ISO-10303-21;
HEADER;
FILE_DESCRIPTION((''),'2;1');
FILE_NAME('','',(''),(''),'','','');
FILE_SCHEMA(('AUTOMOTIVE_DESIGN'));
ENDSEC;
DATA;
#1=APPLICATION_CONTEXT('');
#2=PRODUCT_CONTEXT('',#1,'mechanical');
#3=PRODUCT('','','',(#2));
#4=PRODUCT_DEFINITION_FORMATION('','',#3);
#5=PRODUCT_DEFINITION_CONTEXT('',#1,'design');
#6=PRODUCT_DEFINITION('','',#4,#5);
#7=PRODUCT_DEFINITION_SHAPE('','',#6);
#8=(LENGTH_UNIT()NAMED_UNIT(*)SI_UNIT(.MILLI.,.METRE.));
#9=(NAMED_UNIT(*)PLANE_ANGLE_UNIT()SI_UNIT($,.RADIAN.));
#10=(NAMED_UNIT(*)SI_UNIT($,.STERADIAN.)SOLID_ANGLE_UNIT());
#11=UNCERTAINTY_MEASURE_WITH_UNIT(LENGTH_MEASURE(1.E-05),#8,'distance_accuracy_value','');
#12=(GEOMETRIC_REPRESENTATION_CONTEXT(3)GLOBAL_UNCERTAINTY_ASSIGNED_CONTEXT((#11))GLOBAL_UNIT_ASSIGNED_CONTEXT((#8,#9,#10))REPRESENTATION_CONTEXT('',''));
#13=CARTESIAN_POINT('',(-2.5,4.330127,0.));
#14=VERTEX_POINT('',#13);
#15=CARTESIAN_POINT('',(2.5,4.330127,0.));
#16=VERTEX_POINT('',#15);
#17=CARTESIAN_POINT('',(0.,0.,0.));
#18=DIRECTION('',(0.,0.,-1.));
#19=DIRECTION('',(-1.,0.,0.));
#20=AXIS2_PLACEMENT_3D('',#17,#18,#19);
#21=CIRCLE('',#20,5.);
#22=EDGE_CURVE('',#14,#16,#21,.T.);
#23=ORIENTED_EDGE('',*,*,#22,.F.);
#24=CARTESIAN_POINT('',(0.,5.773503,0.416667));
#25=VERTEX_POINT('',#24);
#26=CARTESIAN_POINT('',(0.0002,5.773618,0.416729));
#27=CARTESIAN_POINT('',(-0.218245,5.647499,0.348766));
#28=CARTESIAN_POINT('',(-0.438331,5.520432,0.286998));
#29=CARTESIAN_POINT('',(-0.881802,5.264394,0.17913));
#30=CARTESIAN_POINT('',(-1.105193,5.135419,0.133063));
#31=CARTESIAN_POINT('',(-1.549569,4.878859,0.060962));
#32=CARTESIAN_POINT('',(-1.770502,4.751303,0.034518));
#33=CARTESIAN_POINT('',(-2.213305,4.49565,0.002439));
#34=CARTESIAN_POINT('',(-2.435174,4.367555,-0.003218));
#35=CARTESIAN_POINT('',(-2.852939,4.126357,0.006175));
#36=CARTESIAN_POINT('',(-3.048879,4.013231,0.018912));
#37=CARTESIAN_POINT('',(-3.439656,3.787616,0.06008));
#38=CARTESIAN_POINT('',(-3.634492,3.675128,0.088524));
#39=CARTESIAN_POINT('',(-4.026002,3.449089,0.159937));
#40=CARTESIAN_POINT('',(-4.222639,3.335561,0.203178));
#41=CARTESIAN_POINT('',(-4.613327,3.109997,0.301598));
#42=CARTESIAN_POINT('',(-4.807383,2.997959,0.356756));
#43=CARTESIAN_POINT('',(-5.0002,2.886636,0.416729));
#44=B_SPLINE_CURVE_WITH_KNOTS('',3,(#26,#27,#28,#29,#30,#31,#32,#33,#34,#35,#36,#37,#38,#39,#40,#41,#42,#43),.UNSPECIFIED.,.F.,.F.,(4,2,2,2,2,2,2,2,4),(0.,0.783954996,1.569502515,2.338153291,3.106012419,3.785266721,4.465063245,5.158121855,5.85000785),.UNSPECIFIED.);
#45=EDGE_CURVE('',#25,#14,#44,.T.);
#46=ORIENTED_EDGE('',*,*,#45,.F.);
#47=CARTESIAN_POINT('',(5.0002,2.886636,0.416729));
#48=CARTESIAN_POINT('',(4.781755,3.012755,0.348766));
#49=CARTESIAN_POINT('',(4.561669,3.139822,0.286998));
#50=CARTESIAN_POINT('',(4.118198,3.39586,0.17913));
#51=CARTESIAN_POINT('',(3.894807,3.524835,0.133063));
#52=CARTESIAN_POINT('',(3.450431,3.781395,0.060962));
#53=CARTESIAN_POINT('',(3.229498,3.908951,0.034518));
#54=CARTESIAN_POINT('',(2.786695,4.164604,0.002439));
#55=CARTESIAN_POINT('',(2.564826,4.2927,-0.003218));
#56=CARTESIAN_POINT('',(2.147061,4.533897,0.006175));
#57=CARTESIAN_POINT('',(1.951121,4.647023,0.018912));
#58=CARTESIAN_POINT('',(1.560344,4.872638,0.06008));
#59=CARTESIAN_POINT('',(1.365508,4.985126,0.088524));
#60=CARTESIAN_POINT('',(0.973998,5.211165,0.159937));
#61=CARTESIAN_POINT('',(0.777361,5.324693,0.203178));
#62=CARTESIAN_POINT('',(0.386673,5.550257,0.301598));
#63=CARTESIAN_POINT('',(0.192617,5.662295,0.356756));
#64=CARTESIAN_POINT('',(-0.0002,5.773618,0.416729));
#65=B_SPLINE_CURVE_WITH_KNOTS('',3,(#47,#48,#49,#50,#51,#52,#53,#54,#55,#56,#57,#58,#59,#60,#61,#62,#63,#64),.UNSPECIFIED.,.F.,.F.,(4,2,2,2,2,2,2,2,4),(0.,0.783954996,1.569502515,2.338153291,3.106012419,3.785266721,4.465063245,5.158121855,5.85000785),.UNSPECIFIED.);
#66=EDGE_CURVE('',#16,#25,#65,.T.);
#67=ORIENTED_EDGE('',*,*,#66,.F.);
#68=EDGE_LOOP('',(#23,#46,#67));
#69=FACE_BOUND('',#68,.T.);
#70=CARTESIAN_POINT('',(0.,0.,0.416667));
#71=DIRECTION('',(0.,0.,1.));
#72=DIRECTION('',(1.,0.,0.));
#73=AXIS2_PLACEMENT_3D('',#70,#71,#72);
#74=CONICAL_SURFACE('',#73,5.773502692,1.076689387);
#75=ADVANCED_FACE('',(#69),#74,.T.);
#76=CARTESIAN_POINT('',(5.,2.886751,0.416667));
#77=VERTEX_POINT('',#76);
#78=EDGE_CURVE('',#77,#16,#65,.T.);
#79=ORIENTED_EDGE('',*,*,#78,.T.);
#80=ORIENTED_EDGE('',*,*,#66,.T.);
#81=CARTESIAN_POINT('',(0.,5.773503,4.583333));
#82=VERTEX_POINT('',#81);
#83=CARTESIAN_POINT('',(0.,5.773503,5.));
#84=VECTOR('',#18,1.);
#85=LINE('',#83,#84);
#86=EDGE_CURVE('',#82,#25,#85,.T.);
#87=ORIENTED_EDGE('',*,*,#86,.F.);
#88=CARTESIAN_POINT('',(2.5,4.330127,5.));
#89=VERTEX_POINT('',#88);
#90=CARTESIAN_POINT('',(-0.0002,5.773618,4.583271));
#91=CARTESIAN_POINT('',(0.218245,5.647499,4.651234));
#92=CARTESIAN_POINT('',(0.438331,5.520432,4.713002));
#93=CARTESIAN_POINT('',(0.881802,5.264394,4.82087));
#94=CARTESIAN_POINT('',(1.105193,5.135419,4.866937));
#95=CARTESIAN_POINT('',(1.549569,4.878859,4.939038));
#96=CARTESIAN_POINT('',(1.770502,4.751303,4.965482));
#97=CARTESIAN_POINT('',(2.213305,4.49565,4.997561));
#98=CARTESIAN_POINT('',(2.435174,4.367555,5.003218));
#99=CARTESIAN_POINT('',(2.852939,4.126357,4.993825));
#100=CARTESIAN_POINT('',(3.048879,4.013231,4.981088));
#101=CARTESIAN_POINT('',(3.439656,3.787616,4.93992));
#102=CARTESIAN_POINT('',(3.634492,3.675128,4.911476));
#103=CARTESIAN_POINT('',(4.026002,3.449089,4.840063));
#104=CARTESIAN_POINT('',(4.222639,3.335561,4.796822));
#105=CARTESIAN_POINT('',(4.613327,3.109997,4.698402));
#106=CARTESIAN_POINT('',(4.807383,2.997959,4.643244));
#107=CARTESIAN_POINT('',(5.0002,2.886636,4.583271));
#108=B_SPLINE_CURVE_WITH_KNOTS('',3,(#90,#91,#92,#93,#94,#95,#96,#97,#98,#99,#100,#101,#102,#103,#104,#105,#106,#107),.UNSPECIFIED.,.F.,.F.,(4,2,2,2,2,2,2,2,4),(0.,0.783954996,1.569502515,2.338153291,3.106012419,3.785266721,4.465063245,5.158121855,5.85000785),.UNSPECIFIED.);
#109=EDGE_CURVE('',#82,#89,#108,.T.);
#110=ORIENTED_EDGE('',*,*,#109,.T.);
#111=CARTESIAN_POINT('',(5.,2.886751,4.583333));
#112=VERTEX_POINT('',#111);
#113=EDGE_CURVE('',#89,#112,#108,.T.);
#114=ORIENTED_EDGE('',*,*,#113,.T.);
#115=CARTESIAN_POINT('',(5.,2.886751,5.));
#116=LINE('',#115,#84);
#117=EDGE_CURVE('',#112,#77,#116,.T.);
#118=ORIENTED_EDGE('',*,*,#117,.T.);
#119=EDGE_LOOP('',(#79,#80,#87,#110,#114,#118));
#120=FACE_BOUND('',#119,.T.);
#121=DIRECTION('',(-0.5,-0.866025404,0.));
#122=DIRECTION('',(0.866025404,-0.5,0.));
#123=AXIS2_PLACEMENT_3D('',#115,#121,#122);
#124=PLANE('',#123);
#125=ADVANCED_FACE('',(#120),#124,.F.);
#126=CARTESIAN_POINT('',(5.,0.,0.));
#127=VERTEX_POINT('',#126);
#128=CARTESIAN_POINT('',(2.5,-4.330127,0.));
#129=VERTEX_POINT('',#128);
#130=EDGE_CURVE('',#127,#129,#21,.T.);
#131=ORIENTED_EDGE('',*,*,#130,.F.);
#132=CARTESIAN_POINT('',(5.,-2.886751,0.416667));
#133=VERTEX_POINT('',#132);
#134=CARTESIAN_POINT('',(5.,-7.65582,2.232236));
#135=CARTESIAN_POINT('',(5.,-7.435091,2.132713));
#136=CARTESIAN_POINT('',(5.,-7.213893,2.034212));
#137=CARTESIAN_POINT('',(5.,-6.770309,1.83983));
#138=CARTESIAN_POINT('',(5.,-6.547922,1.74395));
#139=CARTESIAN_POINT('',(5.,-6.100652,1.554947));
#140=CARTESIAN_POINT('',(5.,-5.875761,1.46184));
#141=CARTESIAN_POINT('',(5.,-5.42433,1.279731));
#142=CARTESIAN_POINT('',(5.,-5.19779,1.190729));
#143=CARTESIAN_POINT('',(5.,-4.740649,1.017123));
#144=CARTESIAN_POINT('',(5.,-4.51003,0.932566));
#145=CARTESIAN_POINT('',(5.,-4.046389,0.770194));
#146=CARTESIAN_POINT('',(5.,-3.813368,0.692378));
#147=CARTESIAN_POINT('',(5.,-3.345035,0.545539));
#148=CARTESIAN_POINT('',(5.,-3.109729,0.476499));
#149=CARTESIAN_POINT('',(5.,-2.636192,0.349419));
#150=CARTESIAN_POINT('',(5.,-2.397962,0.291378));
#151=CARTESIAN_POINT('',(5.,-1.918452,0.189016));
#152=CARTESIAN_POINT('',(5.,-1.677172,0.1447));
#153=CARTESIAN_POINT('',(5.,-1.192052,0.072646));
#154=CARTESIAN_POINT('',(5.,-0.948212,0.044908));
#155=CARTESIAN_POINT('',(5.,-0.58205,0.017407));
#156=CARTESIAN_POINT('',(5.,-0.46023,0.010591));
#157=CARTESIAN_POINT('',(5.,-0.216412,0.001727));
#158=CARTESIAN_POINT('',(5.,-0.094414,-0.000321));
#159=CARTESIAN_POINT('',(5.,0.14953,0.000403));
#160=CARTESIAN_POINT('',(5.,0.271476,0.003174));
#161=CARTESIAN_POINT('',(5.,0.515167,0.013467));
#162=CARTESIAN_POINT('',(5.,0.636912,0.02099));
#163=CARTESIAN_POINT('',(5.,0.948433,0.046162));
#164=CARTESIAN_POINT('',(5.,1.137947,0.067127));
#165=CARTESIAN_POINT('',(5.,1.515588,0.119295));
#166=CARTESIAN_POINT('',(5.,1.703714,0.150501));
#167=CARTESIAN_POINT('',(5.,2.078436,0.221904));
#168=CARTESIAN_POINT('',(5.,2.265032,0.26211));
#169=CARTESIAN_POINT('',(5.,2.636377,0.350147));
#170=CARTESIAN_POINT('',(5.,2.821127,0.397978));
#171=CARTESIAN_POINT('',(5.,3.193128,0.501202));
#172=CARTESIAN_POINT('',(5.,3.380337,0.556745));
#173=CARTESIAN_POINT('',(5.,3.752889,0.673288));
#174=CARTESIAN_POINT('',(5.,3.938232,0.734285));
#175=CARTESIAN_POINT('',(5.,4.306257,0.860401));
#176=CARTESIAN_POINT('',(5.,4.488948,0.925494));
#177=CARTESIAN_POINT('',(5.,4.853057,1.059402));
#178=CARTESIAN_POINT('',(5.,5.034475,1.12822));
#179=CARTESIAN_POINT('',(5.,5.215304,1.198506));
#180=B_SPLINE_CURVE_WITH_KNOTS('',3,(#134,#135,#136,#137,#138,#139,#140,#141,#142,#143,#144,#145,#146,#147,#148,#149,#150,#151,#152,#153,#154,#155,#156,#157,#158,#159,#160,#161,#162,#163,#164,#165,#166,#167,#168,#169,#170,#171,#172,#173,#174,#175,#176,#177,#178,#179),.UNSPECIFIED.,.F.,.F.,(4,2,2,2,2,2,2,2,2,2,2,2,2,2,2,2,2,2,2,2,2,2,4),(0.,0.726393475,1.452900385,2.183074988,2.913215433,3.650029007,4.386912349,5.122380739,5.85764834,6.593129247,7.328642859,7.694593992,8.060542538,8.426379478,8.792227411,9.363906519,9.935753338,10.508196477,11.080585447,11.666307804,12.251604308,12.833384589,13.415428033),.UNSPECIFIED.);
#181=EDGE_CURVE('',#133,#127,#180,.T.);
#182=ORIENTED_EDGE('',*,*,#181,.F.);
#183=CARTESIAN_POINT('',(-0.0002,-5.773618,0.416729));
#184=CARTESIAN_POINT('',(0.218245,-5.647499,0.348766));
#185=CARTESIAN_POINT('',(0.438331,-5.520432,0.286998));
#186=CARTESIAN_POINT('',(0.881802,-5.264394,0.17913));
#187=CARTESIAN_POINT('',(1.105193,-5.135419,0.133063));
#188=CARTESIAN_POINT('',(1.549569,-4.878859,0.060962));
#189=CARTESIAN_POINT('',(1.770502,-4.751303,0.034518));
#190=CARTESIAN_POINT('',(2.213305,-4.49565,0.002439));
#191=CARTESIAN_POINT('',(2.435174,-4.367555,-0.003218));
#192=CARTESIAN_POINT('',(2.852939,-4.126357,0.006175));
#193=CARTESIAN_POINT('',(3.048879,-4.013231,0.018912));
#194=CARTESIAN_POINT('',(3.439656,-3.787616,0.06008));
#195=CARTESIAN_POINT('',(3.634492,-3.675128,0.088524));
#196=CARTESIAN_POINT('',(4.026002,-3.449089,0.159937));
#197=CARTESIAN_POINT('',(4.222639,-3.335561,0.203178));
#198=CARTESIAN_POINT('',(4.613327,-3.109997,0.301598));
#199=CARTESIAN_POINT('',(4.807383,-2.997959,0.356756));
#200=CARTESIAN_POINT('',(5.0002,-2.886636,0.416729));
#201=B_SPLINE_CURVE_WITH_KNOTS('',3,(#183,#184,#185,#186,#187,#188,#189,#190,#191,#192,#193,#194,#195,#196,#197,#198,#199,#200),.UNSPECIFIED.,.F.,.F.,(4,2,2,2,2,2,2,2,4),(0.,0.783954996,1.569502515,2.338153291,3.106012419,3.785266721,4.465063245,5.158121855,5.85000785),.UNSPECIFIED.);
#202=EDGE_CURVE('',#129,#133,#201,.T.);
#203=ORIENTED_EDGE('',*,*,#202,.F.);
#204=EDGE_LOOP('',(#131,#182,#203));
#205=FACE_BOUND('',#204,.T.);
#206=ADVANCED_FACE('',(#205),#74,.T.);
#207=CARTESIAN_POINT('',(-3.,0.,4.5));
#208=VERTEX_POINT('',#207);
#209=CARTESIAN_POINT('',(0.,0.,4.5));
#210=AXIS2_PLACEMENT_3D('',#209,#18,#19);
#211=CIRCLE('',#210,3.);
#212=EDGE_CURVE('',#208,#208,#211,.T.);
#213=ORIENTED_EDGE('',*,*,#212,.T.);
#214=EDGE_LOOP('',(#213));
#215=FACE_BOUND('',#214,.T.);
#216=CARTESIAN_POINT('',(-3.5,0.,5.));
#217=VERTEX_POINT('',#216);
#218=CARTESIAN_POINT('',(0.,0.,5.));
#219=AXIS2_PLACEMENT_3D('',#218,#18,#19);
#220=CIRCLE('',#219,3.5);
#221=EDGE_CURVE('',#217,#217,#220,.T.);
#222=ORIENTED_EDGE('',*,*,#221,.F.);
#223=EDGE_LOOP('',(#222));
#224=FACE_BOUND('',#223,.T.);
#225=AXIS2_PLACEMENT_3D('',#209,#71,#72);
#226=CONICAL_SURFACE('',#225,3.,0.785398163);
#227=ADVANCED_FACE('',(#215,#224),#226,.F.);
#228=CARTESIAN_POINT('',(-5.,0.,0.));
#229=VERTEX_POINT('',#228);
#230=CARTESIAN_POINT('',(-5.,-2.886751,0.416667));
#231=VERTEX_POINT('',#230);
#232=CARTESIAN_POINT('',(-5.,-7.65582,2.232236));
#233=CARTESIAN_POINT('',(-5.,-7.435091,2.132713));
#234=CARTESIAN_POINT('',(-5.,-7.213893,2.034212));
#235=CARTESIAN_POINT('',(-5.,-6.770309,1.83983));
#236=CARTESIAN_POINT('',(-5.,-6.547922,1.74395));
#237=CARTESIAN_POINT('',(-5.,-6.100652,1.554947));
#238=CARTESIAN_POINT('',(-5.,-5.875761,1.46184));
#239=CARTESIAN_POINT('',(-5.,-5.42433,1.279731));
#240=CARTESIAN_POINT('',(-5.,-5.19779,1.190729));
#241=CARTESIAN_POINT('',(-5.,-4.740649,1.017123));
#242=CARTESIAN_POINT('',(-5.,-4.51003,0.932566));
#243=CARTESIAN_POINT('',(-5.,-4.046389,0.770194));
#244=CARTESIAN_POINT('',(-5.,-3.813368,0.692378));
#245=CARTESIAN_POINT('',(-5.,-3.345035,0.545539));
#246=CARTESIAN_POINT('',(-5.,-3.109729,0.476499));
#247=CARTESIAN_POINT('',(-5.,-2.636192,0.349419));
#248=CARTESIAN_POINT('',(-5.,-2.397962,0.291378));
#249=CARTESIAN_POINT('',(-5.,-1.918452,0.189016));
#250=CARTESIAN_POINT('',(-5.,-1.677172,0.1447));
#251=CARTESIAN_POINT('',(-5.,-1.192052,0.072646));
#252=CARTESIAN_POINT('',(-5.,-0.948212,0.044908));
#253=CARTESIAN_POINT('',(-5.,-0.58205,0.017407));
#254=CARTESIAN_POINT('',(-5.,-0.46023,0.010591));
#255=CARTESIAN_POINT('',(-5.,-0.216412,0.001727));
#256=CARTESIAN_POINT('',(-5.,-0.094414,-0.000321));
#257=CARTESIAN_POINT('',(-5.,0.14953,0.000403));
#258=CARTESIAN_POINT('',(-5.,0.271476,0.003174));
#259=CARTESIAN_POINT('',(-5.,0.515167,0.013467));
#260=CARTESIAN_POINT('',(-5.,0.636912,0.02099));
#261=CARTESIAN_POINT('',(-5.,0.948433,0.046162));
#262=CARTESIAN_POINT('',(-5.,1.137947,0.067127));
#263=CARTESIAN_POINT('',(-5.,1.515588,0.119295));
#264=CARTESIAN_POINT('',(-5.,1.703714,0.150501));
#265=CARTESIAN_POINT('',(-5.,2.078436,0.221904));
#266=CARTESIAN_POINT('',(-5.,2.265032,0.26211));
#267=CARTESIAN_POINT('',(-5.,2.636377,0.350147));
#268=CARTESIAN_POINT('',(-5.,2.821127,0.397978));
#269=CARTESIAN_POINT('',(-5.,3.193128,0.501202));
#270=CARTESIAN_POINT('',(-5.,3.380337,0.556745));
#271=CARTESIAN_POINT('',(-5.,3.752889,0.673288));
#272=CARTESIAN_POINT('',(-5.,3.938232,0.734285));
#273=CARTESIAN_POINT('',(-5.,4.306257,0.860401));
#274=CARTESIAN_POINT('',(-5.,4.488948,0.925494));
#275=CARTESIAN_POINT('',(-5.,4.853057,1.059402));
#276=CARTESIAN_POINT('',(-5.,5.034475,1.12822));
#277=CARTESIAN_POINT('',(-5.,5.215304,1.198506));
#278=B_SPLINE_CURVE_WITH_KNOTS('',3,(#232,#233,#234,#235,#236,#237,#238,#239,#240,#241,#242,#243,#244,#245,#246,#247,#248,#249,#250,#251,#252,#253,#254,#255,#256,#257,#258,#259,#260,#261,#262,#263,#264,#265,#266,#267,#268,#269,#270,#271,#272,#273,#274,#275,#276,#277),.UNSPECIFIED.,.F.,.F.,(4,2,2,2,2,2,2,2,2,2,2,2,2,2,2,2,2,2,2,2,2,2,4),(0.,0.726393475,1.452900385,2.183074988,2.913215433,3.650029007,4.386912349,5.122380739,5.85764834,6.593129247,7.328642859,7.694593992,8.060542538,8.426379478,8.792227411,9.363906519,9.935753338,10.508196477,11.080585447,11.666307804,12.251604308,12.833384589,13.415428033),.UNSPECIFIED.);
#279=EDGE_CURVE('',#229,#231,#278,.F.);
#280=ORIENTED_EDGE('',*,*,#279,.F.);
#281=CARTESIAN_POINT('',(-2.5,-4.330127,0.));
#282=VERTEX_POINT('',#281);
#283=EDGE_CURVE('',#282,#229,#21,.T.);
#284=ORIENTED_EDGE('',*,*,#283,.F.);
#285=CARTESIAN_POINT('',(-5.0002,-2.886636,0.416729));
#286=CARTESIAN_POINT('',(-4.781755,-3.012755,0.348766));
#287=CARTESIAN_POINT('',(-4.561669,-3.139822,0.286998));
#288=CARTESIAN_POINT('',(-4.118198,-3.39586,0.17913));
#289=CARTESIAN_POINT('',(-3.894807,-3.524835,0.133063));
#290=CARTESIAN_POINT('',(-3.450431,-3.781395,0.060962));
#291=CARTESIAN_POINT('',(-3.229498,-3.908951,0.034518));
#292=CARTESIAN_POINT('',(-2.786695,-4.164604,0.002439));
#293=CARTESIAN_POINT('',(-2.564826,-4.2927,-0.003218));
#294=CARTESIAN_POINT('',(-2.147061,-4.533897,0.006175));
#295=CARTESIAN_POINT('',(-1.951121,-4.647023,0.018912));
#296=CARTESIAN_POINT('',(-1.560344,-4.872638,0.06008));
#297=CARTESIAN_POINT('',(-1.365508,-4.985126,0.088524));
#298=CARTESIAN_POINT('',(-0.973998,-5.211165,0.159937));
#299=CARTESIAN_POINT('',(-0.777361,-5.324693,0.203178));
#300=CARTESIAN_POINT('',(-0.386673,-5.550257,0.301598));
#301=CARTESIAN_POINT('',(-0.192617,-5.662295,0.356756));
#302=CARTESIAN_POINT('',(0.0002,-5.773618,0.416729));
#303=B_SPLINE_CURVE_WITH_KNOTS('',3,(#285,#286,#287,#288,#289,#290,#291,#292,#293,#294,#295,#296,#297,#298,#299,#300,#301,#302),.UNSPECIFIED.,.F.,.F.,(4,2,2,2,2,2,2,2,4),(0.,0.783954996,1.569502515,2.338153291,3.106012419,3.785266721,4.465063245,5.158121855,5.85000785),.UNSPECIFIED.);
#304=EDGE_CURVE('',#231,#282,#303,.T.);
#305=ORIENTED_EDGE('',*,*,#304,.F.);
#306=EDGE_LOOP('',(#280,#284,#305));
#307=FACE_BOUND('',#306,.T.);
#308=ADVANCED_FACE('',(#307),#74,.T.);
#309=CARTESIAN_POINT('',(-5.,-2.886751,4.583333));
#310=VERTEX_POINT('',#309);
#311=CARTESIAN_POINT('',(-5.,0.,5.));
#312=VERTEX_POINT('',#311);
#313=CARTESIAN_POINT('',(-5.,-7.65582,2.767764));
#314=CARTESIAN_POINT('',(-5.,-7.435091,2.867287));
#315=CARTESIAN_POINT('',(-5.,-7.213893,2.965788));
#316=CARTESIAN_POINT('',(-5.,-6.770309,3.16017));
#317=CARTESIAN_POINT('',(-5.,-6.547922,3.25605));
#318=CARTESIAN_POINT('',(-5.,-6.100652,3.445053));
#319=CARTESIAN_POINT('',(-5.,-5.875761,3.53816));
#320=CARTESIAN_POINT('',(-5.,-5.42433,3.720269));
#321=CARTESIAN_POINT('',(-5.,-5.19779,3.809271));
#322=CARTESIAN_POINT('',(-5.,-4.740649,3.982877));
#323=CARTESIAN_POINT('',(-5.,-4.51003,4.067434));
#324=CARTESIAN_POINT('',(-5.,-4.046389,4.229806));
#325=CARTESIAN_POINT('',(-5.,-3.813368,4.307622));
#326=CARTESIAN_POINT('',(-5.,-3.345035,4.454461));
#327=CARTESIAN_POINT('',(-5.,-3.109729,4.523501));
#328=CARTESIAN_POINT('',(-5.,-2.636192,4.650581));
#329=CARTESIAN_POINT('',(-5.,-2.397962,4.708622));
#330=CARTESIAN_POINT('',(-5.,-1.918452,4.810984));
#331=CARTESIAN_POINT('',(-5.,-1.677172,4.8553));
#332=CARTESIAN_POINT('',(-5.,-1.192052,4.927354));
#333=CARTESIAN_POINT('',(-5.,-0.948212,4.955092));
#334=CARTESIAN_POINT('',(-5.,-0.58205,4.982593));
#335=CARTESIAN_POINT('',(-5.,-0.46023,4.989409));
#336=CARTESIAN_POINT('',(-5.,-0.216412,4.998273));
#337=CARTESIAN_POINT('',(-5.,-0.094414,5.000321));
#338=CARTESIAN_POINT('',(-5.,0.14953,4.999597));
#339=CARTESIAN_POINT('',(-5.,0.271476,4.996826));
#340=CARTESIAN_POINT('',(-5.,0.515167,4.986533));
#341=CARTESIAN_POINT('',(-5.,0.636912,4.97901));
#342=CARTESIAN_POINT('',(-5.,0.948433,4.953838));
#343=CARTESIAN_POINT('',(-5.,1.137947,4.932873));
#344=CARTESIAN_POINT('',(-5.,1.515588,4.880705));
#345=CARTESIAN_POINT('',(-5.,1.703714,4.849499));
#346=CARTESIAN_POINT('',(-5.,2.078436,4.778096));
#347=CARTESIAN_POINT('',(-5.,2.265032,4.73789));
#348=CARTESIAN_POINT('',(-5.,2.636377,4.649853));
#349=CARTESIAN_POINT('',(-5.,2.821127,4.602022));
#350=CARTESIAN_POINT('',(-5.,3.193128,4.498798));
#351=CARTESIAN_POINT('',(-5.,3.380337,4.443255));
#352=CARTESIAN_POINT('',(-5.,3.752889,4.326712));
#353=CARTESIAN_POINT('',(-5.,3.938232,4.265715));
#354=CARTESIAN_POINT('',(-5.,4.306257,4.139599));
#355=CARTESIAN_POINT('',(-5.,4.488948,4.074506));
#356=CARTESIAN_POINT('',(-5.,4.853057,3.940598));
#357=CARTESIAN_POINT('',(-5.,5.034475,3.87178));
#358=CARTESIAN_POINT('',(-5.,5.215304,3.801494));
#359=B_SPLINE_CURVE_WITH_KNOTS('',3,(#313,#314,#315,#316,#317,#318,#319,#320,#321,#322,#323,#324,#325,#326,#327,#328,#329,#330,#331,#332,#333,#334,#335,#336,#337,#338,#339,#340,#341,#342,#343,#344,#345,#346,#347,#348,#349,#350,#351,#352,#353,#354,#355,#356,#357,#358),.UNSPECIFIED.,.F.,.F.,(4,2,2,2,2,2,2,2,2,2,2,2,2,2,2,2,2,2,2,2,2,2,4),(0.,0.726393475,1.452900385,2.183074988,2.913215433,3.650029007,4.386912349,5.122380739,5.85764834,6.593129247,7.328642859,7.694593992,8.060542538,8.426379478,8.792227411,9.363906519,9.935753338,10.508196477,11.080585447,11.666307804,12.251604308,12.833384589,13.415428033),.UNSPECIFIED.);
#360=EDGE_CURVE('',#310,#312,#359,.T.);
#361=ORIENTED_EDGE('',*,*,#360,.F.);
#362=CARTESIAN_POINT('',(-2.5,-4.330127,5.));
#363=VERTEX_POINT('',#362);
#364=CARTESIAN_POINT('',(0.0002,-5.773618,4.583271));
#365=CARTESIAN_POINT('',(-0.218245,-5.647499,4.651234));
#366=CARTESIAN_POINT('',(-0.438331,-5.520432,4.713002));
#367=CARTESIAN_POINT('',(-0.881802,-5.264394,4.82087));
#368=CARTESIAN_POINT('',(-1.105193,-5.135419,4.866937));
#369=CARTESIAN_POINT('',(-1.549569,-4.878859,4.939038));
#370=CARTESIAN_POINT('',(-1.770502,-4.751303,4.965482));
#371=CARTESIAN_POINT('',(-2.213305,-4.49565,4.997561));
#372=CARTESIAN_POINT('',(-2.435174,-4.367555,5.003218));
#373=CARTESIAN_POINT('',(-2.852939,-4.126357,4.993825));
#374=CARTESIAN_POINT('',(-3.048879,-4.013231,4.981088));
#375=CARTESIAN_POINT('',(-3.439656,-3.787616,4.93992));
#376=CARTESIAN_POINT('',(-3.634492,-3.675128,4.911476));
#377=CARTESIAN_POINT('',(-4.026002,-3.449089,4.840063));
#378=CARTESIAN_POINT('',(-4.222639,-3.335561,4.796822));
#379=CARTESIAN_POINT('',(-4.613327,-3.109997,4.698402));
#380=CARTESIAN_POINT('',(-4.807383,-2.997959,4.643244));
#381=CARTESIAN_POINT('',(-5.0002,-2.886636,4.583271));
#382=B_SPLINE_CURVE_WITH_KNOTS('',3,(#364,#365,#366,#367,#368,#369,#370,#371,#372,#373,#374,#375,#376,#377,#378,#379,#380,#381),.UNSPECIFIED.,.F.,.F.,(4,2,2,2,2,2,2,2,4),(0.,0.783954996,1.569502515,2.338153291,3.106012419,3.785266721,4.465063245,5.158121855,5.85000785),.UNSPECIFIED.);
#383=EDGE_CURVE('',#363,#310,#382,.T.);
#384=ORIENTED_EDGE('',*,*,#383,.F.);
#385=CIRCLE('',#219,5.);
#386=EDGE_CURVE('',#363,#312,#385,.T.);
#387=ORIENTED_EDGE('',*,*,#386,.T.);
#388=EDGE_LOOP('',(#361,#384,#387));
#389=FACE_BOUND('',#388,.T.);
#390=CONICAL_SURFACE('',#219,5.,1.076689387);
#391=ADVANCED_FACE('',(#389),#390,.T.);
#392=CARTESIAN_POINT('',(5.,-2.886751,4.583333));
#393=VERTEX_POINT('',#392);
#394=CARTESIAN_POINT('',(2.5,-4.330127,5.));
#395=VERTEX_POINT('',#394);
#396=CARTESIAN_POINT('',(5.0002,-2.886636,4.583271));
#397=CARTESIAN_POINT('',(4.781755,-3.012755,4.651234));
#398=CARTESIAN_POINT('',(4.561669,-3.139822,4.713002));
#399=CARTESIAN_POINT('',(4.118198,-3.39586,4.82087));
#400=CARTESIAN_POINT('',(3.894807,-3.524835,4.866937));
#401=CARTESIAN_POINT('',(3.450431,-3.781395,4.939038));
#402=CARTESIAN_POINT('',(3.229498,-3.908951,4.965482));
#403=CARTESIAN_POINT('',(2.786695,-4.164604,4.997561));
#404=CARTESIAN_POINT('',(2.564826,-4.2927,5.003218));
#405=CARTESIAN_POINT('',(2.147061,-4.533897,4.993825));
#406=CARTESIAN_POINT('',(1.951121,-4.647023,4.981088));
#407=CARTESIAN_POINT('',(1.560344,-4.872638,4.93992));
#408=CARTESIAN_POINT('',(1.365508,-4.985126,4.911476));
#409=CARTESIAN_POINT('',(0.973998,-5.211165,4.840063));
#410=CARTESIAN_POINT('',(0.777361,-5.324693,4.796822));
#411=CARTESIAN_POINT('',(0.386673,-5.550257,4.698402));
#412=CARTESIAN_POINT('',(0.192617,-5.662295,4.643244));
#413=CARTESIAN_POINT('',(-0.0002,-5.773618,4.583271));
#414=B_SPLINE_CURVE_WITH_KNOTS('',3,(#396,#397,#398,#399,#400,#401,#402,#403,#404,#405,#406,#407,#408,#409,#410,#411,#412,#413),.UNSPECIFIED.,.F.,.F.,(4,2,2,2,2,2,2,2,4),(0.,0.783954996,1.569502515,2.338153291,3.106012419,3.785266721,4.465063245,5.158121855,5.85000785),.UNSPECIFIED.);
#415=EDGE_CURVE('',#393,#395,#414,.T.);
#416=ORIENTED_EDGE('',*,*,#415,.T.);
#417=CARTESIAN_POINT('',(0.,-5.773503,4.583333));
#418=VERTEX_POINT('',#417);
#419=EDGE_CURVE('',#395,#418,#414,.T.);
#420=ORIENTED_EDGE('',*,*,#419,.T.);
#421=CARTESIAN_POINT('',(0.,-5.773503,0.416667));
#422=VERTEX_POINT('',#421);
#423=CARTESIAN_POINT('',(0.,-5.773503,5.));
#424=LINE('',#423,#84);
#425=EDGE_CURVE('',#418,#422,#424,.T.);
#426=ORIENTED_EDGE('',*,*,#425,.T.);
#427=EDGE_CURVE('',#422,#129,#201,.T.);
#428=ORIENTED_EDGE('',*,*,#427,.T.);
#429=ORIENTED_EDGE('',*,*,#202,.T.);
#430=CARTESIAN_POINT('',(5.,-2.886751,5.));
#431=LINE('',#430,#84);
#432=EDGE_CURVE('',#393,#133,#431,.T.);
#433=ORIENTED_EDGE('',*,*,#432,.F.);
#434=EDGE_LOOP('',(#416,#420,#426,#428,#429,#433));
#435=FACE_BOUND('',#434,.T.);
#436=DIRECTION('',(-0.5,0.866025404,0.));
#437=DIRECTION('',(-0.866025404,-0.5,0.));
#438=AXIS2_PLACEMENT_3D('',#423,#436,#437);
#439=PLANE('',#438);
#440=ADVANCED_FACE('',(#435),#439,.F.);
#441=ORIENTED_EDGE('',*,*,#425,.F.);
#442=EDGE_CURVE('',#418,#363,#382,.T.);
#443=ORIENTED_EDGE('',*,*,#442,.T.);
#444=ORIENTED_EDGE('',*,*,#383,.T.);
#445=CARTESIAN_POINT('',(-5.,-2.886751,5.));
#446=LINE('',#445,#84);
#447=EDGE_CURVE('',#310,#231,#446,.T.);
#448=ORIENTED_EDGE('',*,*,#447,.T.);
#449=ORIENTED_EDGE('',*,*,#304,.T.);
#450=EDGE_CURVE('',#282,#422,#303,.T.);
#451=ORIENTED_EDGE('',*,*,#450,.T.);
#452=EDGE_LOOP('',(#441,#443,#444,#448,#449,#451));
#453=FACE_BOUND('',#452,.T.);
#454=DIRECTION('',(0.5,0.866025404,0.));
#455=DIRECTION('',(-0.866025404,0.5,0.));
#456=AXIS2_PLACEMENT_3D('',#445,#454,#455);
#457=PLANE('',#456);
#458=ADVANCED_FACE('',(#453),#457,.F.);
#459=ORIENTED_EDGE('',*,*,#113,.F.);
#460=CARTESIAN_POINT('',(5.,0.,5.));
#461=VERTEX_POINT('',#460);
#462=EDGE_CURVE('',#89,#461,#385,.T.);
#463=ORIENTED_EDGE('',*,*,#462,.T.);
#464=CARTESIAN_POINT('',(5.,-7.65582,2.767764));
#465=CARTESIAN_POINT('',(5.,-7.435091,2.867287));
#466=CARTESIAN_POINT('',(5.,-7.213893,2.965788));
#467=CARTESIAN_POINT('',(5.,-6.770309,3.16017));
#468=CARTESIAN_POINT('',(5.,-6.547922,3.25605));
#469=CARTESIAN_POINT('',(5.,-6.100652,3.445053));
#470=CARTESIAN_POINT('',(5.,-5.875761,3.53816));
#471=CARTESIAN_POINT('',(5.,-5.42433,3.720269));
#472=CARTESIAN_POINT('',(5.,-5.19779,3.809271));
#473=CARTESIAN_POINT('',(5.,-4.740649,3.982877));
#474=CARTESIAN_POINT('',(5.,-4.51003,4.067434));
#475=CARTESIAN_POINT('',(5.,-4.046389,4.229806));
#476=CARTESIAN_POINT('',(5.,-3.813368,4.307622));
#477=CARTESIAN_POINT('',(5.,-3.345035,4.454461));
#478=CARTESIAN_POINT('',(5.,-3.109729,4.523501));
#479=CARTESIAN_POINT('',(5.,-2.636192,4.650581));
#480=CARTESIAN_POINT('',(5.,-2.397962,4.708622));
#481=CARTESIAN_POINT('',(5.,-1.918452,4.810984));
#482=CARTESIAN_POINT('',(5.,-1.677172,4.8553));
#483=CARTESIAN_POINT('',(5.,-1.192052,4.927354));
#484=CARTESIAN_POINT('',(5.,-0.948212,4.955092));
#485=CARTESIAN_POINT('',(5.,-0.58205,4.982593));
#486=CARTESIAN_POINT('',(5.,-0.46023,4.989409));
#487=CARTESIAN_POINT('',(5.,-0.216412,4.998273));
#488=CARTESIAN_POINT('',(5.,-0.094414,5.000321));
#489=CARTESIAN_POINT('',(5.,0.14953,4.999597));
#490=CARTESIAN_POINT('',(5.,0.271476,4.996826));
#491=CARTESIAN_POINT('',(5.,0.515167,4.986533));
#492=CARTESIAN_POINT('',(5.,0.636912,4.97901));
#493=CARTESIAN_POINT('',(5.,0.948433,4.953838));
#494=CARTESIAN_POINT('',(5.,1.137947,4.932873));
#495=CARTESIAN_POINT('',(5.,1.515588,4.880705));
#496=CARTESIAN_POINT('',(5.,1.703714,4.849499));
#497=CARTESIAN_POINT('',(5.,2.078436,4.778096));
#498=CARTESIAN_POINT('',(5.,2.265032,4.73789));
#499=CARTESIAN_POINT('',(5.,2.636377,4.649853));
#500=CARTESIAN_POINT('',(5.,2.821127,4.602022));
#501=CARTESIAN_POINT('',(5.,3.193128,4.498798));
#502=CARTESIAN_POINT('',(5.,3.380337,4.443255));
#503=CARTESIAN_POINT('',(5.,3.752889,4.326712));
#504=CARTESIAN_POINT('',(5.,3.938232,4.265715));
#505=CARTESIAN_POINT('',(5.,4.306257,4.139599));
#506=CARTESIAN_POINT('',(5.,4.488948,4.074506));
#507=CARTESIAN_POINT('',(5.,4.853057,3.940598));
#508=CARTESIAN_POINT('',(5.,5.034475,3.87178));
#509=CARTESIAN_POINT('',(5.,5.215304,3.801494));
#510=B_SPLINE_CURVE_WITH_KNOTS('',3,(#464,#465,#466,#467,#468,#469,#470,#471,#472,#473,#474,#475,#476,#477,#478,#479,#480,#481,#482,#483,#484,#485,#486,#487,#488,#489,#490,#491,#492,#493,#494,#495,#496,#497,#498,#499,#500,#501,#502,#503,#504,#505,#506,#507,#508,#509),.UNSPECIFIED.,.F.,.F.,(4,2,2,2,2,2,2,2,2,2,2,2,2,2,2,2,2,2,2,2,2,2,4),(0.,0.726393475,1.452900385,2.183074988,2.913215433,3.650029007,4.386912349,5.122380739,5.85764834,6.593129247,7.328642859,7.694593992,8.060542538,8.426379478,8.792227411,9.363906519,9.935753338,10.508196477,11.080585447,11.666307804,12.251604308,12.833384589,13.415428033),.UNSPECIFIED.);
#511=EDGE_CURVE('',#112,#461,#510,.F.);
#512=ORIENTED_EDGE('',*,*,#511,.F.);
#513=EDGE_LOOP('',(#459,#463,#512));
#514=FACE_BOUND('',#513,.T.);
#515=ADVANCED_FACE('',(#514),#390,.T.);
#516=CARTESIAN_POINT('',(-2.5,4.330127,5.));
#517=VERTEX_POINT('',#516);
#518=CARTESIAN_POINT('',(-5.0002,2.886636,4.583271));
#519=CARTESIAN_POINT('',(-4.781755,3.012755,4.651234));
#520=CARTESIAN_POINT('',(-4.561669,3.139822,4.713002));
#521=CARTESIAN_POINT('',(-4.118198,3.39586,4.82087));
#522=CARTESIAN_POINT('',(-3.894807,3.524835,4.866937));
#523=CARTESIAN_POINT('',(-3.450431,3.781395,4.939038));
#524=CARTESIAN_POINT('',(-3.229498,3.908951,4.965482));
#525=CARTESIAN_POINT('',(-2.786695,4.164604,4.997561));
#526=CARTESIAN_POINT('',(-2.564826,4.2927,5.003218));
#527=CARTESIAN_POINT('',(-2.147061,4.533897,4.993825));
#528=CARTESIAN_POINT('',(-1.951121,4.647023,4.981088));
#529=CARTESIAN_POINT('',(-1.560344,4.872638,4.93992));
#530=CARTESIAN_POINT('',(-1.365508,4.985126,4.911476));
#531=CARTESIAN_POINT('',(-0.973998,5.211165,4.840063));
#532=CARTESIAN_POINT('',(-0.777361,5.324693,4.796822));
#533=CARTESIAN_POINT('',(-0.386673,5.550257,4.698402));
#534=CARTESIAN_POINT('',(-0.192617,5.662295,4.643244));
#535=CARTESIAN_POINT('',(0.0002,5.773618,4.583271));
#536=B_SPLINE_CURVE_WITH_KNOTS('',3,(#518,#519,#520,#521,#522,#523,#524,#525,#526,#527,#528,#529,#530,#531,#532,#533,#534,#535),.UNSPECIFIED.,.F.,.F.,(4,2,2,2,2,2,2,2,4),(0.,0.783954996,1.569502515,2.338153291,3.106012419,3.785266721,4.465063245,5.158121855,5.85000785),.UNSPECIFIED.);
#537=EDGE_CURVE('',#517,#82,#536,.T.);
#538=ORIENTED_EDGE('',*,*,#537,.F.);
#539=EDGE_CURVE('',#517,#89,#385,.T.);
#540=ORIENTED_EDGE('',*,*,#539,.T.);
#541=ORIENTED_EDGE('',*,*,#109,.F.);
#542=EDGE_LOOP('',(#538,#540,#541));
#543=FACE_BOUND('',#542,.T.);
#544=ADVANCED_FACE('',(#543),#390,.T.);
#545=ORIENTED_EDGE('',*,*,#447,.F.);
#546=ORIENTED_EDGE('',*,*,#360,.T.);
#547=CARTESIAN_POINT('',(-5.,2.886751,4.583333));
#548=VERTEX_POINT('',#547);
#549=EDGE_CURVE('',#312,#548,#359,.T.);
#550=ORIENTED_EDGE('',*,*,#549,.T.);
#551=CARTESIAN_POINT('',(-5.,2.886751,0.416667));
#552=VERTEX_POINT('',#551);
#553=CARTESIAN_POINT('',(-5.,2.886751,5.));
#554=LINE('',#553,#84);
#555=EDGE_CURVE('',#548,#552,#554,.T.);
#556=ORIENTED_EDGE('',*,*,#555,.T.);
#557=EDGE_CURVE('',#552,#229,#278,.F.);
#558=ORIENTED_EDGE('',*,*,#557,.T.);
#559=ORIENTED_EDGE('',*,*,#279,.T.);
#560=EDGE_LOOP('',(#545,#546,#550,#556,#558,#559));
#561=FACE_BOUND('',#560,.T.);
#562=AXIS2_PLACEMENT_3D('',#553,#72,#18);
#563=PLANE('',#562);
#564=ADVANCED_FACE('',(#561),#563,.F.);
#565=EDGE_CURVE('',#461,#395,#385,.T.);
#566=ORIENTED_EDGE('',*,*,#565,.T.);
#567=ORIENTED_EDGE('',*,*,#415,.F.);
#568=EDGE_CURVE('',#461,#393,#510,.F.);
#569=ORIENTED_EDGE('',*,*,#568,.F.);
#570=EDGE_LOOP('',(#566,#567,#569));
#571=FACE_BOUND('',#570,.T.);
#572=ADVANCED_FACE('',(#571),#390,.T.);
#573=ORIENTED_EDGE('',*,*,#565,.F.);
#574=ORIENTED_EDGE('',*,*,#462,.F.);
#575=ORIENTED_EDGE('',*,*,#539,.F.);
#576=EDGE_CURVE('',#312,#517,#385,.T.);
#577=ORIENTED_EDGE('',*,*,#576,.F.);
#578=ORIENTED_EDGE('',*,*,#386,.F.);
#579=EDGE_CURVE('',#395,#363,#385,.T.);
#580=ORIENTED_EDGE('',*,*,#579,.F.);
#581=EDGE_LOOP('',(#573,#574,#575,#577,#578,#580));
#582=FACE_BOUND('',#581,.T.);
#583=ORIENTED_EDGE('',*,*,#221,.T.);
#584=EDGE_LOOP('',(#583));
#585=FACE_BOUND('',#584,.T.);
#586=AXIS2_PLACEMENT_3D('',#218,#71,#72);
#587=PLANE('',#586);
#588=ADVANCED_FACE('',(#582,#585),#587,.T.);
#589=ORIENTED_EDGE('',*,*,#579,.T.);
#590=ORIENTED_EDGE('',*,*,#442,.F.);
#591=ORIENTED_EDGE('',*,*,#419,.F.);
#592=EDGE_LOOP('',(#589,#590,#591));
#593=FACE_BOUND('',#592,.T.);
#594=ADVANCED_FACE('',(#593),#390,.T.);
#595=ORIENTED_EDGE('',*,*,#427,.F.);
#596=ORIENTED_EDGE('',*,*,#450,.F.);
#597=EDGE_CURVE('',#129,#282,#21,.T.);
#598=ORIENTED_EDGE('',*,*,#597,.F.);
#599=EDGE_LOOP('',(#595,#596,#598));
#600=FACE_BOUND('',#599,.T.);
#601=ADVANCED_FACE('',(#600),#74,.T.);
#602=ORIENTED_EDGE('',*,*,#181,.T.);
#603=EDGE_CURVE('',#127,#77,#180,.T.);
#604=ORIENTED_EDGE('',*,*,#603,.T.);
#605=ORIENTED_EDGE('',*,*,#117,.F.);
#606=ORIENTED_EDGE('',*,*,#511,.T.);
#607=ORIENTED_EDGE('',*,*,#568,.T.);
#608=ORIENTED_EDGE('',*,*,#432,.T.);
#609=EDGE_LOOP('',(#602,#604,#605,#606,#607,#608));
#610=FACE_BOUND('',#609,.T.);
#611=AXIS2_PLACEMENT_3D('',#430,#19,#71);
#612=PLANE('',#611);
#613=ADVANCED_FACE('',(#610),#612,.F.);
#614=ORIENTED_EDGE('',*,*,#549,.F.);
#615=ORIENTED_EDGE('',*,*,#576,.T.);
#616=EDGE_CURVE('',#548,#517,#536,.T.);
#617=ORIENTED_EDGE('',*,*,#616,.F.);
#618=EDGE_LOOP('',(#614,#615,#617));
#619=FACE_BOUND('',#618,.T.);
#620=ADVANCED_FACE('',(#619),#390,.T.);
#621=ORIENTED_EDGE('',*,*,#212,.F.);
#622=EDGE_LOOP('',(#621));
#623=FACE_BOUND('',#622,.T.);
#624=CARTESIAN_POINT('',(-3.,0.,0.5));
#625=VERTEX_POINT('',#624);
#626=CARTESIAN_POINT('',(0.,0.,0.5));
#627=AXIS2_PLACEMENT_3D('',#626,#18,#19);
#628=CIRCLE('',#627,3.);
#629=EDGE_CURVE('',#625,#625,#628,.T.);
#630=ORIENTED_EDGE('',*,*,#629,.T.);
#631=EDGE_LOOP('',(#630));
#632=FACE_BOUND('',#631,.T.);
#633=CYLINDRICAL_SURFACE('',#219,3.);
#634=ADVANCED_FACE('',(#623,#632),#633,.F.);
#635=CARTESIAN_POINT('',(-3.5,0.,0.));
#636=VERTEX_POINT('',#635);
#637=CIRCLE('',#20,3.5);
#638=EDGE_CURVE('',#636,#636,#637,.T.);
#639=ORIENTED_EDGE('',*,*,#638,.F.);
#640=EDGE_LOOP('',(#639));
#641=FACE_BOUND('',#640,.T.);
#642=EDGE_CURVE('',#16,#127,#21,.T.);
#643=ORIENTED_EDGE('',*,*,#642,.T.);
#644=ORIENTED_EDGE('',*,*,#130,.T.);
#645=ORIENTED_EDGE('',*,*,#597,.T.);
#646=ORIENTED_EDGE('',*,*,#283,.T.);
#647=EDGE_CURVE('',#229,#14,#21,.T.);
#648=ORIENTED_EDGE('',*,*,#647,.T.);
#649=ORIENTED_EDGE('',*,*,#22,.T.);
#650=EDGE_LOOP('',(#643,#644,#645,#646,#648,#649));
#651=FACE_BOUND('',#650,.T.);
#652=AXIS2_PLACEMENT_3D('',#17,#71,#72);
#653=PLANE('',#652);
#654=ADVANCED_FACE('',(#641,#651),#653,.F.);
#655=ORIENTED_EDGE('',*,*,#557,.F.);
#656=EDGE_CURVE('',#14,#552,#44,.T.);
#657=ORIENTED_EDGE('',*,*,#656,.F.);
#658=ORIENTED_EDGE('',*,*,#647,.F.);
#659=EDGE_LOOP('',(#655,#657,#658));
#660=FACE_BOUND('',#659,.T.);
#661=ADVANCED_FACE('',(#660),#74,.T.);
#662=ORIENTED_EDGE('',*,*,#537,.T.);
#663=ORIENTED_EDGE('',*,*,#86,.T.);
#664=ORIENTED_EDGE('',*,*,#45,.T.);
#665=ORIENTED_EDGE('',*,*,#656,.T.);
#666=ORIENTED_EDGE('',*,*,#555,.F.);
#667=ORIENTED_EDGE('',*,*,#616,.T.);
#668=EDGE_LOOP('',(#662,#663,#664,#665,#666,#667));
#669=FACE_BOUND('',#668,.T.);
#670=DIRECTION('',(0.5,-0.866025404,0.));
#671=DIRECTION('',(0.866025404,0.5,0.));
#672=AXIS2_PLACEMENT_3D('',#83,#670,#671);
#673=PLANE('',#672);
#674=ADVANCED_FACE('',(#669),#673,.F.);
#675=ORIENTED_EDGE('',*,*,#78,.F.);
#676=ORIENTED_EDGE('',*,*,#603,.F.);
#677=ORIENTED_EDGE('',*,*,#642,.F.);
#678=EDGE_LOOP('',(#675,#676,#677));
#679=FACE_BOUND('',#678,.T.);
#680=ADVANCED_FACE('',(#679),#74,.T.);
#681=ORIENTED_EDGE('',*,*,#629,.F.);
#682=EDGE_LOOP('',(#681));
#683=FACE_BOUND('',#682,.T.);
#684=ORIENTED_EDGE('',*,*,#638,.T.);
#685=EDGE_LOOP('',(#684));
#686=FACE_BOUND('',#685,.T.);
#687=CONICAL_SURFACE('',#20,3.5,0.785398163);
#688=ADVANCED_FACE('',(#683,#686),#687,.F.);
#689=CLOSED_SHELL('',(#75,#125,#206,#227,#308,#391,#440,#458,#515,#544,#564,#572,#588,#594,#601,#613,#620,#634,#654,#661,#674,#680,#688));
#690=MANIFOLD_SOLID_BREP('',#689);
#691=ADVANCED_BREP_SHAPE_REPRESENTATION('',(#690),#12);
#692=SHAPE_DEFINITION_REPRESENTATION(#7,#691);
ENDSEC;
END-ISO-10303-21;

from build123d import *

# Parameters (mm, degrees)
SKETCH1_R           = 3
BOSS_EXTRUDE1_DEPTH = 5


with BuildPart() as part:
    # Sketch1 → Boss-Extrude1 (new body)
    with BuildSketch(Plane.XY):
        Polygon((0, -5.773502692), (5, -2.886751346), (5, 2.886751346), (0, 5.773502692), (-5, 2.886751346), (-5, -2.886751346), align=None)
        Circle(SKETCH1_R, mode=Mode.SUBTRACT)
    extrude(amount=BOSS_EXTRUDE1_DEPTH)

    # Sketch2 → Cut-Revolve1 (revolve, cut)
    with BuildSketch(Plane(origin=(0, 0, 0), x_dir=(0, 0, -1), z_dir=(1, 0, 0)), mode=Mode.PRIVATE) as cut_revolve1_sk:
        Polygon((-5, 5.773502692), (-5, 5), (-4.583333333, 5.773502692), align=None)
        Polygon((-0.416666667, 5.773502692), (0, 5.773502692), (0, 5), align=None)
        Polygon((-5, 3), (-4.5, 3), (-5, 3.5), align=None)
        Polygon((0, 3), (-0.5, 3), (0, 3.5), align=None)
    revolve(cut_revolve1_sk.sketch.rotate(Axis((0, 0, 0), (0, 0, 1)), 90), axis=Axis((0, 0, 0), (0, 0, 1)), mode=Mode.SUBTRACT)


solid = part.part
